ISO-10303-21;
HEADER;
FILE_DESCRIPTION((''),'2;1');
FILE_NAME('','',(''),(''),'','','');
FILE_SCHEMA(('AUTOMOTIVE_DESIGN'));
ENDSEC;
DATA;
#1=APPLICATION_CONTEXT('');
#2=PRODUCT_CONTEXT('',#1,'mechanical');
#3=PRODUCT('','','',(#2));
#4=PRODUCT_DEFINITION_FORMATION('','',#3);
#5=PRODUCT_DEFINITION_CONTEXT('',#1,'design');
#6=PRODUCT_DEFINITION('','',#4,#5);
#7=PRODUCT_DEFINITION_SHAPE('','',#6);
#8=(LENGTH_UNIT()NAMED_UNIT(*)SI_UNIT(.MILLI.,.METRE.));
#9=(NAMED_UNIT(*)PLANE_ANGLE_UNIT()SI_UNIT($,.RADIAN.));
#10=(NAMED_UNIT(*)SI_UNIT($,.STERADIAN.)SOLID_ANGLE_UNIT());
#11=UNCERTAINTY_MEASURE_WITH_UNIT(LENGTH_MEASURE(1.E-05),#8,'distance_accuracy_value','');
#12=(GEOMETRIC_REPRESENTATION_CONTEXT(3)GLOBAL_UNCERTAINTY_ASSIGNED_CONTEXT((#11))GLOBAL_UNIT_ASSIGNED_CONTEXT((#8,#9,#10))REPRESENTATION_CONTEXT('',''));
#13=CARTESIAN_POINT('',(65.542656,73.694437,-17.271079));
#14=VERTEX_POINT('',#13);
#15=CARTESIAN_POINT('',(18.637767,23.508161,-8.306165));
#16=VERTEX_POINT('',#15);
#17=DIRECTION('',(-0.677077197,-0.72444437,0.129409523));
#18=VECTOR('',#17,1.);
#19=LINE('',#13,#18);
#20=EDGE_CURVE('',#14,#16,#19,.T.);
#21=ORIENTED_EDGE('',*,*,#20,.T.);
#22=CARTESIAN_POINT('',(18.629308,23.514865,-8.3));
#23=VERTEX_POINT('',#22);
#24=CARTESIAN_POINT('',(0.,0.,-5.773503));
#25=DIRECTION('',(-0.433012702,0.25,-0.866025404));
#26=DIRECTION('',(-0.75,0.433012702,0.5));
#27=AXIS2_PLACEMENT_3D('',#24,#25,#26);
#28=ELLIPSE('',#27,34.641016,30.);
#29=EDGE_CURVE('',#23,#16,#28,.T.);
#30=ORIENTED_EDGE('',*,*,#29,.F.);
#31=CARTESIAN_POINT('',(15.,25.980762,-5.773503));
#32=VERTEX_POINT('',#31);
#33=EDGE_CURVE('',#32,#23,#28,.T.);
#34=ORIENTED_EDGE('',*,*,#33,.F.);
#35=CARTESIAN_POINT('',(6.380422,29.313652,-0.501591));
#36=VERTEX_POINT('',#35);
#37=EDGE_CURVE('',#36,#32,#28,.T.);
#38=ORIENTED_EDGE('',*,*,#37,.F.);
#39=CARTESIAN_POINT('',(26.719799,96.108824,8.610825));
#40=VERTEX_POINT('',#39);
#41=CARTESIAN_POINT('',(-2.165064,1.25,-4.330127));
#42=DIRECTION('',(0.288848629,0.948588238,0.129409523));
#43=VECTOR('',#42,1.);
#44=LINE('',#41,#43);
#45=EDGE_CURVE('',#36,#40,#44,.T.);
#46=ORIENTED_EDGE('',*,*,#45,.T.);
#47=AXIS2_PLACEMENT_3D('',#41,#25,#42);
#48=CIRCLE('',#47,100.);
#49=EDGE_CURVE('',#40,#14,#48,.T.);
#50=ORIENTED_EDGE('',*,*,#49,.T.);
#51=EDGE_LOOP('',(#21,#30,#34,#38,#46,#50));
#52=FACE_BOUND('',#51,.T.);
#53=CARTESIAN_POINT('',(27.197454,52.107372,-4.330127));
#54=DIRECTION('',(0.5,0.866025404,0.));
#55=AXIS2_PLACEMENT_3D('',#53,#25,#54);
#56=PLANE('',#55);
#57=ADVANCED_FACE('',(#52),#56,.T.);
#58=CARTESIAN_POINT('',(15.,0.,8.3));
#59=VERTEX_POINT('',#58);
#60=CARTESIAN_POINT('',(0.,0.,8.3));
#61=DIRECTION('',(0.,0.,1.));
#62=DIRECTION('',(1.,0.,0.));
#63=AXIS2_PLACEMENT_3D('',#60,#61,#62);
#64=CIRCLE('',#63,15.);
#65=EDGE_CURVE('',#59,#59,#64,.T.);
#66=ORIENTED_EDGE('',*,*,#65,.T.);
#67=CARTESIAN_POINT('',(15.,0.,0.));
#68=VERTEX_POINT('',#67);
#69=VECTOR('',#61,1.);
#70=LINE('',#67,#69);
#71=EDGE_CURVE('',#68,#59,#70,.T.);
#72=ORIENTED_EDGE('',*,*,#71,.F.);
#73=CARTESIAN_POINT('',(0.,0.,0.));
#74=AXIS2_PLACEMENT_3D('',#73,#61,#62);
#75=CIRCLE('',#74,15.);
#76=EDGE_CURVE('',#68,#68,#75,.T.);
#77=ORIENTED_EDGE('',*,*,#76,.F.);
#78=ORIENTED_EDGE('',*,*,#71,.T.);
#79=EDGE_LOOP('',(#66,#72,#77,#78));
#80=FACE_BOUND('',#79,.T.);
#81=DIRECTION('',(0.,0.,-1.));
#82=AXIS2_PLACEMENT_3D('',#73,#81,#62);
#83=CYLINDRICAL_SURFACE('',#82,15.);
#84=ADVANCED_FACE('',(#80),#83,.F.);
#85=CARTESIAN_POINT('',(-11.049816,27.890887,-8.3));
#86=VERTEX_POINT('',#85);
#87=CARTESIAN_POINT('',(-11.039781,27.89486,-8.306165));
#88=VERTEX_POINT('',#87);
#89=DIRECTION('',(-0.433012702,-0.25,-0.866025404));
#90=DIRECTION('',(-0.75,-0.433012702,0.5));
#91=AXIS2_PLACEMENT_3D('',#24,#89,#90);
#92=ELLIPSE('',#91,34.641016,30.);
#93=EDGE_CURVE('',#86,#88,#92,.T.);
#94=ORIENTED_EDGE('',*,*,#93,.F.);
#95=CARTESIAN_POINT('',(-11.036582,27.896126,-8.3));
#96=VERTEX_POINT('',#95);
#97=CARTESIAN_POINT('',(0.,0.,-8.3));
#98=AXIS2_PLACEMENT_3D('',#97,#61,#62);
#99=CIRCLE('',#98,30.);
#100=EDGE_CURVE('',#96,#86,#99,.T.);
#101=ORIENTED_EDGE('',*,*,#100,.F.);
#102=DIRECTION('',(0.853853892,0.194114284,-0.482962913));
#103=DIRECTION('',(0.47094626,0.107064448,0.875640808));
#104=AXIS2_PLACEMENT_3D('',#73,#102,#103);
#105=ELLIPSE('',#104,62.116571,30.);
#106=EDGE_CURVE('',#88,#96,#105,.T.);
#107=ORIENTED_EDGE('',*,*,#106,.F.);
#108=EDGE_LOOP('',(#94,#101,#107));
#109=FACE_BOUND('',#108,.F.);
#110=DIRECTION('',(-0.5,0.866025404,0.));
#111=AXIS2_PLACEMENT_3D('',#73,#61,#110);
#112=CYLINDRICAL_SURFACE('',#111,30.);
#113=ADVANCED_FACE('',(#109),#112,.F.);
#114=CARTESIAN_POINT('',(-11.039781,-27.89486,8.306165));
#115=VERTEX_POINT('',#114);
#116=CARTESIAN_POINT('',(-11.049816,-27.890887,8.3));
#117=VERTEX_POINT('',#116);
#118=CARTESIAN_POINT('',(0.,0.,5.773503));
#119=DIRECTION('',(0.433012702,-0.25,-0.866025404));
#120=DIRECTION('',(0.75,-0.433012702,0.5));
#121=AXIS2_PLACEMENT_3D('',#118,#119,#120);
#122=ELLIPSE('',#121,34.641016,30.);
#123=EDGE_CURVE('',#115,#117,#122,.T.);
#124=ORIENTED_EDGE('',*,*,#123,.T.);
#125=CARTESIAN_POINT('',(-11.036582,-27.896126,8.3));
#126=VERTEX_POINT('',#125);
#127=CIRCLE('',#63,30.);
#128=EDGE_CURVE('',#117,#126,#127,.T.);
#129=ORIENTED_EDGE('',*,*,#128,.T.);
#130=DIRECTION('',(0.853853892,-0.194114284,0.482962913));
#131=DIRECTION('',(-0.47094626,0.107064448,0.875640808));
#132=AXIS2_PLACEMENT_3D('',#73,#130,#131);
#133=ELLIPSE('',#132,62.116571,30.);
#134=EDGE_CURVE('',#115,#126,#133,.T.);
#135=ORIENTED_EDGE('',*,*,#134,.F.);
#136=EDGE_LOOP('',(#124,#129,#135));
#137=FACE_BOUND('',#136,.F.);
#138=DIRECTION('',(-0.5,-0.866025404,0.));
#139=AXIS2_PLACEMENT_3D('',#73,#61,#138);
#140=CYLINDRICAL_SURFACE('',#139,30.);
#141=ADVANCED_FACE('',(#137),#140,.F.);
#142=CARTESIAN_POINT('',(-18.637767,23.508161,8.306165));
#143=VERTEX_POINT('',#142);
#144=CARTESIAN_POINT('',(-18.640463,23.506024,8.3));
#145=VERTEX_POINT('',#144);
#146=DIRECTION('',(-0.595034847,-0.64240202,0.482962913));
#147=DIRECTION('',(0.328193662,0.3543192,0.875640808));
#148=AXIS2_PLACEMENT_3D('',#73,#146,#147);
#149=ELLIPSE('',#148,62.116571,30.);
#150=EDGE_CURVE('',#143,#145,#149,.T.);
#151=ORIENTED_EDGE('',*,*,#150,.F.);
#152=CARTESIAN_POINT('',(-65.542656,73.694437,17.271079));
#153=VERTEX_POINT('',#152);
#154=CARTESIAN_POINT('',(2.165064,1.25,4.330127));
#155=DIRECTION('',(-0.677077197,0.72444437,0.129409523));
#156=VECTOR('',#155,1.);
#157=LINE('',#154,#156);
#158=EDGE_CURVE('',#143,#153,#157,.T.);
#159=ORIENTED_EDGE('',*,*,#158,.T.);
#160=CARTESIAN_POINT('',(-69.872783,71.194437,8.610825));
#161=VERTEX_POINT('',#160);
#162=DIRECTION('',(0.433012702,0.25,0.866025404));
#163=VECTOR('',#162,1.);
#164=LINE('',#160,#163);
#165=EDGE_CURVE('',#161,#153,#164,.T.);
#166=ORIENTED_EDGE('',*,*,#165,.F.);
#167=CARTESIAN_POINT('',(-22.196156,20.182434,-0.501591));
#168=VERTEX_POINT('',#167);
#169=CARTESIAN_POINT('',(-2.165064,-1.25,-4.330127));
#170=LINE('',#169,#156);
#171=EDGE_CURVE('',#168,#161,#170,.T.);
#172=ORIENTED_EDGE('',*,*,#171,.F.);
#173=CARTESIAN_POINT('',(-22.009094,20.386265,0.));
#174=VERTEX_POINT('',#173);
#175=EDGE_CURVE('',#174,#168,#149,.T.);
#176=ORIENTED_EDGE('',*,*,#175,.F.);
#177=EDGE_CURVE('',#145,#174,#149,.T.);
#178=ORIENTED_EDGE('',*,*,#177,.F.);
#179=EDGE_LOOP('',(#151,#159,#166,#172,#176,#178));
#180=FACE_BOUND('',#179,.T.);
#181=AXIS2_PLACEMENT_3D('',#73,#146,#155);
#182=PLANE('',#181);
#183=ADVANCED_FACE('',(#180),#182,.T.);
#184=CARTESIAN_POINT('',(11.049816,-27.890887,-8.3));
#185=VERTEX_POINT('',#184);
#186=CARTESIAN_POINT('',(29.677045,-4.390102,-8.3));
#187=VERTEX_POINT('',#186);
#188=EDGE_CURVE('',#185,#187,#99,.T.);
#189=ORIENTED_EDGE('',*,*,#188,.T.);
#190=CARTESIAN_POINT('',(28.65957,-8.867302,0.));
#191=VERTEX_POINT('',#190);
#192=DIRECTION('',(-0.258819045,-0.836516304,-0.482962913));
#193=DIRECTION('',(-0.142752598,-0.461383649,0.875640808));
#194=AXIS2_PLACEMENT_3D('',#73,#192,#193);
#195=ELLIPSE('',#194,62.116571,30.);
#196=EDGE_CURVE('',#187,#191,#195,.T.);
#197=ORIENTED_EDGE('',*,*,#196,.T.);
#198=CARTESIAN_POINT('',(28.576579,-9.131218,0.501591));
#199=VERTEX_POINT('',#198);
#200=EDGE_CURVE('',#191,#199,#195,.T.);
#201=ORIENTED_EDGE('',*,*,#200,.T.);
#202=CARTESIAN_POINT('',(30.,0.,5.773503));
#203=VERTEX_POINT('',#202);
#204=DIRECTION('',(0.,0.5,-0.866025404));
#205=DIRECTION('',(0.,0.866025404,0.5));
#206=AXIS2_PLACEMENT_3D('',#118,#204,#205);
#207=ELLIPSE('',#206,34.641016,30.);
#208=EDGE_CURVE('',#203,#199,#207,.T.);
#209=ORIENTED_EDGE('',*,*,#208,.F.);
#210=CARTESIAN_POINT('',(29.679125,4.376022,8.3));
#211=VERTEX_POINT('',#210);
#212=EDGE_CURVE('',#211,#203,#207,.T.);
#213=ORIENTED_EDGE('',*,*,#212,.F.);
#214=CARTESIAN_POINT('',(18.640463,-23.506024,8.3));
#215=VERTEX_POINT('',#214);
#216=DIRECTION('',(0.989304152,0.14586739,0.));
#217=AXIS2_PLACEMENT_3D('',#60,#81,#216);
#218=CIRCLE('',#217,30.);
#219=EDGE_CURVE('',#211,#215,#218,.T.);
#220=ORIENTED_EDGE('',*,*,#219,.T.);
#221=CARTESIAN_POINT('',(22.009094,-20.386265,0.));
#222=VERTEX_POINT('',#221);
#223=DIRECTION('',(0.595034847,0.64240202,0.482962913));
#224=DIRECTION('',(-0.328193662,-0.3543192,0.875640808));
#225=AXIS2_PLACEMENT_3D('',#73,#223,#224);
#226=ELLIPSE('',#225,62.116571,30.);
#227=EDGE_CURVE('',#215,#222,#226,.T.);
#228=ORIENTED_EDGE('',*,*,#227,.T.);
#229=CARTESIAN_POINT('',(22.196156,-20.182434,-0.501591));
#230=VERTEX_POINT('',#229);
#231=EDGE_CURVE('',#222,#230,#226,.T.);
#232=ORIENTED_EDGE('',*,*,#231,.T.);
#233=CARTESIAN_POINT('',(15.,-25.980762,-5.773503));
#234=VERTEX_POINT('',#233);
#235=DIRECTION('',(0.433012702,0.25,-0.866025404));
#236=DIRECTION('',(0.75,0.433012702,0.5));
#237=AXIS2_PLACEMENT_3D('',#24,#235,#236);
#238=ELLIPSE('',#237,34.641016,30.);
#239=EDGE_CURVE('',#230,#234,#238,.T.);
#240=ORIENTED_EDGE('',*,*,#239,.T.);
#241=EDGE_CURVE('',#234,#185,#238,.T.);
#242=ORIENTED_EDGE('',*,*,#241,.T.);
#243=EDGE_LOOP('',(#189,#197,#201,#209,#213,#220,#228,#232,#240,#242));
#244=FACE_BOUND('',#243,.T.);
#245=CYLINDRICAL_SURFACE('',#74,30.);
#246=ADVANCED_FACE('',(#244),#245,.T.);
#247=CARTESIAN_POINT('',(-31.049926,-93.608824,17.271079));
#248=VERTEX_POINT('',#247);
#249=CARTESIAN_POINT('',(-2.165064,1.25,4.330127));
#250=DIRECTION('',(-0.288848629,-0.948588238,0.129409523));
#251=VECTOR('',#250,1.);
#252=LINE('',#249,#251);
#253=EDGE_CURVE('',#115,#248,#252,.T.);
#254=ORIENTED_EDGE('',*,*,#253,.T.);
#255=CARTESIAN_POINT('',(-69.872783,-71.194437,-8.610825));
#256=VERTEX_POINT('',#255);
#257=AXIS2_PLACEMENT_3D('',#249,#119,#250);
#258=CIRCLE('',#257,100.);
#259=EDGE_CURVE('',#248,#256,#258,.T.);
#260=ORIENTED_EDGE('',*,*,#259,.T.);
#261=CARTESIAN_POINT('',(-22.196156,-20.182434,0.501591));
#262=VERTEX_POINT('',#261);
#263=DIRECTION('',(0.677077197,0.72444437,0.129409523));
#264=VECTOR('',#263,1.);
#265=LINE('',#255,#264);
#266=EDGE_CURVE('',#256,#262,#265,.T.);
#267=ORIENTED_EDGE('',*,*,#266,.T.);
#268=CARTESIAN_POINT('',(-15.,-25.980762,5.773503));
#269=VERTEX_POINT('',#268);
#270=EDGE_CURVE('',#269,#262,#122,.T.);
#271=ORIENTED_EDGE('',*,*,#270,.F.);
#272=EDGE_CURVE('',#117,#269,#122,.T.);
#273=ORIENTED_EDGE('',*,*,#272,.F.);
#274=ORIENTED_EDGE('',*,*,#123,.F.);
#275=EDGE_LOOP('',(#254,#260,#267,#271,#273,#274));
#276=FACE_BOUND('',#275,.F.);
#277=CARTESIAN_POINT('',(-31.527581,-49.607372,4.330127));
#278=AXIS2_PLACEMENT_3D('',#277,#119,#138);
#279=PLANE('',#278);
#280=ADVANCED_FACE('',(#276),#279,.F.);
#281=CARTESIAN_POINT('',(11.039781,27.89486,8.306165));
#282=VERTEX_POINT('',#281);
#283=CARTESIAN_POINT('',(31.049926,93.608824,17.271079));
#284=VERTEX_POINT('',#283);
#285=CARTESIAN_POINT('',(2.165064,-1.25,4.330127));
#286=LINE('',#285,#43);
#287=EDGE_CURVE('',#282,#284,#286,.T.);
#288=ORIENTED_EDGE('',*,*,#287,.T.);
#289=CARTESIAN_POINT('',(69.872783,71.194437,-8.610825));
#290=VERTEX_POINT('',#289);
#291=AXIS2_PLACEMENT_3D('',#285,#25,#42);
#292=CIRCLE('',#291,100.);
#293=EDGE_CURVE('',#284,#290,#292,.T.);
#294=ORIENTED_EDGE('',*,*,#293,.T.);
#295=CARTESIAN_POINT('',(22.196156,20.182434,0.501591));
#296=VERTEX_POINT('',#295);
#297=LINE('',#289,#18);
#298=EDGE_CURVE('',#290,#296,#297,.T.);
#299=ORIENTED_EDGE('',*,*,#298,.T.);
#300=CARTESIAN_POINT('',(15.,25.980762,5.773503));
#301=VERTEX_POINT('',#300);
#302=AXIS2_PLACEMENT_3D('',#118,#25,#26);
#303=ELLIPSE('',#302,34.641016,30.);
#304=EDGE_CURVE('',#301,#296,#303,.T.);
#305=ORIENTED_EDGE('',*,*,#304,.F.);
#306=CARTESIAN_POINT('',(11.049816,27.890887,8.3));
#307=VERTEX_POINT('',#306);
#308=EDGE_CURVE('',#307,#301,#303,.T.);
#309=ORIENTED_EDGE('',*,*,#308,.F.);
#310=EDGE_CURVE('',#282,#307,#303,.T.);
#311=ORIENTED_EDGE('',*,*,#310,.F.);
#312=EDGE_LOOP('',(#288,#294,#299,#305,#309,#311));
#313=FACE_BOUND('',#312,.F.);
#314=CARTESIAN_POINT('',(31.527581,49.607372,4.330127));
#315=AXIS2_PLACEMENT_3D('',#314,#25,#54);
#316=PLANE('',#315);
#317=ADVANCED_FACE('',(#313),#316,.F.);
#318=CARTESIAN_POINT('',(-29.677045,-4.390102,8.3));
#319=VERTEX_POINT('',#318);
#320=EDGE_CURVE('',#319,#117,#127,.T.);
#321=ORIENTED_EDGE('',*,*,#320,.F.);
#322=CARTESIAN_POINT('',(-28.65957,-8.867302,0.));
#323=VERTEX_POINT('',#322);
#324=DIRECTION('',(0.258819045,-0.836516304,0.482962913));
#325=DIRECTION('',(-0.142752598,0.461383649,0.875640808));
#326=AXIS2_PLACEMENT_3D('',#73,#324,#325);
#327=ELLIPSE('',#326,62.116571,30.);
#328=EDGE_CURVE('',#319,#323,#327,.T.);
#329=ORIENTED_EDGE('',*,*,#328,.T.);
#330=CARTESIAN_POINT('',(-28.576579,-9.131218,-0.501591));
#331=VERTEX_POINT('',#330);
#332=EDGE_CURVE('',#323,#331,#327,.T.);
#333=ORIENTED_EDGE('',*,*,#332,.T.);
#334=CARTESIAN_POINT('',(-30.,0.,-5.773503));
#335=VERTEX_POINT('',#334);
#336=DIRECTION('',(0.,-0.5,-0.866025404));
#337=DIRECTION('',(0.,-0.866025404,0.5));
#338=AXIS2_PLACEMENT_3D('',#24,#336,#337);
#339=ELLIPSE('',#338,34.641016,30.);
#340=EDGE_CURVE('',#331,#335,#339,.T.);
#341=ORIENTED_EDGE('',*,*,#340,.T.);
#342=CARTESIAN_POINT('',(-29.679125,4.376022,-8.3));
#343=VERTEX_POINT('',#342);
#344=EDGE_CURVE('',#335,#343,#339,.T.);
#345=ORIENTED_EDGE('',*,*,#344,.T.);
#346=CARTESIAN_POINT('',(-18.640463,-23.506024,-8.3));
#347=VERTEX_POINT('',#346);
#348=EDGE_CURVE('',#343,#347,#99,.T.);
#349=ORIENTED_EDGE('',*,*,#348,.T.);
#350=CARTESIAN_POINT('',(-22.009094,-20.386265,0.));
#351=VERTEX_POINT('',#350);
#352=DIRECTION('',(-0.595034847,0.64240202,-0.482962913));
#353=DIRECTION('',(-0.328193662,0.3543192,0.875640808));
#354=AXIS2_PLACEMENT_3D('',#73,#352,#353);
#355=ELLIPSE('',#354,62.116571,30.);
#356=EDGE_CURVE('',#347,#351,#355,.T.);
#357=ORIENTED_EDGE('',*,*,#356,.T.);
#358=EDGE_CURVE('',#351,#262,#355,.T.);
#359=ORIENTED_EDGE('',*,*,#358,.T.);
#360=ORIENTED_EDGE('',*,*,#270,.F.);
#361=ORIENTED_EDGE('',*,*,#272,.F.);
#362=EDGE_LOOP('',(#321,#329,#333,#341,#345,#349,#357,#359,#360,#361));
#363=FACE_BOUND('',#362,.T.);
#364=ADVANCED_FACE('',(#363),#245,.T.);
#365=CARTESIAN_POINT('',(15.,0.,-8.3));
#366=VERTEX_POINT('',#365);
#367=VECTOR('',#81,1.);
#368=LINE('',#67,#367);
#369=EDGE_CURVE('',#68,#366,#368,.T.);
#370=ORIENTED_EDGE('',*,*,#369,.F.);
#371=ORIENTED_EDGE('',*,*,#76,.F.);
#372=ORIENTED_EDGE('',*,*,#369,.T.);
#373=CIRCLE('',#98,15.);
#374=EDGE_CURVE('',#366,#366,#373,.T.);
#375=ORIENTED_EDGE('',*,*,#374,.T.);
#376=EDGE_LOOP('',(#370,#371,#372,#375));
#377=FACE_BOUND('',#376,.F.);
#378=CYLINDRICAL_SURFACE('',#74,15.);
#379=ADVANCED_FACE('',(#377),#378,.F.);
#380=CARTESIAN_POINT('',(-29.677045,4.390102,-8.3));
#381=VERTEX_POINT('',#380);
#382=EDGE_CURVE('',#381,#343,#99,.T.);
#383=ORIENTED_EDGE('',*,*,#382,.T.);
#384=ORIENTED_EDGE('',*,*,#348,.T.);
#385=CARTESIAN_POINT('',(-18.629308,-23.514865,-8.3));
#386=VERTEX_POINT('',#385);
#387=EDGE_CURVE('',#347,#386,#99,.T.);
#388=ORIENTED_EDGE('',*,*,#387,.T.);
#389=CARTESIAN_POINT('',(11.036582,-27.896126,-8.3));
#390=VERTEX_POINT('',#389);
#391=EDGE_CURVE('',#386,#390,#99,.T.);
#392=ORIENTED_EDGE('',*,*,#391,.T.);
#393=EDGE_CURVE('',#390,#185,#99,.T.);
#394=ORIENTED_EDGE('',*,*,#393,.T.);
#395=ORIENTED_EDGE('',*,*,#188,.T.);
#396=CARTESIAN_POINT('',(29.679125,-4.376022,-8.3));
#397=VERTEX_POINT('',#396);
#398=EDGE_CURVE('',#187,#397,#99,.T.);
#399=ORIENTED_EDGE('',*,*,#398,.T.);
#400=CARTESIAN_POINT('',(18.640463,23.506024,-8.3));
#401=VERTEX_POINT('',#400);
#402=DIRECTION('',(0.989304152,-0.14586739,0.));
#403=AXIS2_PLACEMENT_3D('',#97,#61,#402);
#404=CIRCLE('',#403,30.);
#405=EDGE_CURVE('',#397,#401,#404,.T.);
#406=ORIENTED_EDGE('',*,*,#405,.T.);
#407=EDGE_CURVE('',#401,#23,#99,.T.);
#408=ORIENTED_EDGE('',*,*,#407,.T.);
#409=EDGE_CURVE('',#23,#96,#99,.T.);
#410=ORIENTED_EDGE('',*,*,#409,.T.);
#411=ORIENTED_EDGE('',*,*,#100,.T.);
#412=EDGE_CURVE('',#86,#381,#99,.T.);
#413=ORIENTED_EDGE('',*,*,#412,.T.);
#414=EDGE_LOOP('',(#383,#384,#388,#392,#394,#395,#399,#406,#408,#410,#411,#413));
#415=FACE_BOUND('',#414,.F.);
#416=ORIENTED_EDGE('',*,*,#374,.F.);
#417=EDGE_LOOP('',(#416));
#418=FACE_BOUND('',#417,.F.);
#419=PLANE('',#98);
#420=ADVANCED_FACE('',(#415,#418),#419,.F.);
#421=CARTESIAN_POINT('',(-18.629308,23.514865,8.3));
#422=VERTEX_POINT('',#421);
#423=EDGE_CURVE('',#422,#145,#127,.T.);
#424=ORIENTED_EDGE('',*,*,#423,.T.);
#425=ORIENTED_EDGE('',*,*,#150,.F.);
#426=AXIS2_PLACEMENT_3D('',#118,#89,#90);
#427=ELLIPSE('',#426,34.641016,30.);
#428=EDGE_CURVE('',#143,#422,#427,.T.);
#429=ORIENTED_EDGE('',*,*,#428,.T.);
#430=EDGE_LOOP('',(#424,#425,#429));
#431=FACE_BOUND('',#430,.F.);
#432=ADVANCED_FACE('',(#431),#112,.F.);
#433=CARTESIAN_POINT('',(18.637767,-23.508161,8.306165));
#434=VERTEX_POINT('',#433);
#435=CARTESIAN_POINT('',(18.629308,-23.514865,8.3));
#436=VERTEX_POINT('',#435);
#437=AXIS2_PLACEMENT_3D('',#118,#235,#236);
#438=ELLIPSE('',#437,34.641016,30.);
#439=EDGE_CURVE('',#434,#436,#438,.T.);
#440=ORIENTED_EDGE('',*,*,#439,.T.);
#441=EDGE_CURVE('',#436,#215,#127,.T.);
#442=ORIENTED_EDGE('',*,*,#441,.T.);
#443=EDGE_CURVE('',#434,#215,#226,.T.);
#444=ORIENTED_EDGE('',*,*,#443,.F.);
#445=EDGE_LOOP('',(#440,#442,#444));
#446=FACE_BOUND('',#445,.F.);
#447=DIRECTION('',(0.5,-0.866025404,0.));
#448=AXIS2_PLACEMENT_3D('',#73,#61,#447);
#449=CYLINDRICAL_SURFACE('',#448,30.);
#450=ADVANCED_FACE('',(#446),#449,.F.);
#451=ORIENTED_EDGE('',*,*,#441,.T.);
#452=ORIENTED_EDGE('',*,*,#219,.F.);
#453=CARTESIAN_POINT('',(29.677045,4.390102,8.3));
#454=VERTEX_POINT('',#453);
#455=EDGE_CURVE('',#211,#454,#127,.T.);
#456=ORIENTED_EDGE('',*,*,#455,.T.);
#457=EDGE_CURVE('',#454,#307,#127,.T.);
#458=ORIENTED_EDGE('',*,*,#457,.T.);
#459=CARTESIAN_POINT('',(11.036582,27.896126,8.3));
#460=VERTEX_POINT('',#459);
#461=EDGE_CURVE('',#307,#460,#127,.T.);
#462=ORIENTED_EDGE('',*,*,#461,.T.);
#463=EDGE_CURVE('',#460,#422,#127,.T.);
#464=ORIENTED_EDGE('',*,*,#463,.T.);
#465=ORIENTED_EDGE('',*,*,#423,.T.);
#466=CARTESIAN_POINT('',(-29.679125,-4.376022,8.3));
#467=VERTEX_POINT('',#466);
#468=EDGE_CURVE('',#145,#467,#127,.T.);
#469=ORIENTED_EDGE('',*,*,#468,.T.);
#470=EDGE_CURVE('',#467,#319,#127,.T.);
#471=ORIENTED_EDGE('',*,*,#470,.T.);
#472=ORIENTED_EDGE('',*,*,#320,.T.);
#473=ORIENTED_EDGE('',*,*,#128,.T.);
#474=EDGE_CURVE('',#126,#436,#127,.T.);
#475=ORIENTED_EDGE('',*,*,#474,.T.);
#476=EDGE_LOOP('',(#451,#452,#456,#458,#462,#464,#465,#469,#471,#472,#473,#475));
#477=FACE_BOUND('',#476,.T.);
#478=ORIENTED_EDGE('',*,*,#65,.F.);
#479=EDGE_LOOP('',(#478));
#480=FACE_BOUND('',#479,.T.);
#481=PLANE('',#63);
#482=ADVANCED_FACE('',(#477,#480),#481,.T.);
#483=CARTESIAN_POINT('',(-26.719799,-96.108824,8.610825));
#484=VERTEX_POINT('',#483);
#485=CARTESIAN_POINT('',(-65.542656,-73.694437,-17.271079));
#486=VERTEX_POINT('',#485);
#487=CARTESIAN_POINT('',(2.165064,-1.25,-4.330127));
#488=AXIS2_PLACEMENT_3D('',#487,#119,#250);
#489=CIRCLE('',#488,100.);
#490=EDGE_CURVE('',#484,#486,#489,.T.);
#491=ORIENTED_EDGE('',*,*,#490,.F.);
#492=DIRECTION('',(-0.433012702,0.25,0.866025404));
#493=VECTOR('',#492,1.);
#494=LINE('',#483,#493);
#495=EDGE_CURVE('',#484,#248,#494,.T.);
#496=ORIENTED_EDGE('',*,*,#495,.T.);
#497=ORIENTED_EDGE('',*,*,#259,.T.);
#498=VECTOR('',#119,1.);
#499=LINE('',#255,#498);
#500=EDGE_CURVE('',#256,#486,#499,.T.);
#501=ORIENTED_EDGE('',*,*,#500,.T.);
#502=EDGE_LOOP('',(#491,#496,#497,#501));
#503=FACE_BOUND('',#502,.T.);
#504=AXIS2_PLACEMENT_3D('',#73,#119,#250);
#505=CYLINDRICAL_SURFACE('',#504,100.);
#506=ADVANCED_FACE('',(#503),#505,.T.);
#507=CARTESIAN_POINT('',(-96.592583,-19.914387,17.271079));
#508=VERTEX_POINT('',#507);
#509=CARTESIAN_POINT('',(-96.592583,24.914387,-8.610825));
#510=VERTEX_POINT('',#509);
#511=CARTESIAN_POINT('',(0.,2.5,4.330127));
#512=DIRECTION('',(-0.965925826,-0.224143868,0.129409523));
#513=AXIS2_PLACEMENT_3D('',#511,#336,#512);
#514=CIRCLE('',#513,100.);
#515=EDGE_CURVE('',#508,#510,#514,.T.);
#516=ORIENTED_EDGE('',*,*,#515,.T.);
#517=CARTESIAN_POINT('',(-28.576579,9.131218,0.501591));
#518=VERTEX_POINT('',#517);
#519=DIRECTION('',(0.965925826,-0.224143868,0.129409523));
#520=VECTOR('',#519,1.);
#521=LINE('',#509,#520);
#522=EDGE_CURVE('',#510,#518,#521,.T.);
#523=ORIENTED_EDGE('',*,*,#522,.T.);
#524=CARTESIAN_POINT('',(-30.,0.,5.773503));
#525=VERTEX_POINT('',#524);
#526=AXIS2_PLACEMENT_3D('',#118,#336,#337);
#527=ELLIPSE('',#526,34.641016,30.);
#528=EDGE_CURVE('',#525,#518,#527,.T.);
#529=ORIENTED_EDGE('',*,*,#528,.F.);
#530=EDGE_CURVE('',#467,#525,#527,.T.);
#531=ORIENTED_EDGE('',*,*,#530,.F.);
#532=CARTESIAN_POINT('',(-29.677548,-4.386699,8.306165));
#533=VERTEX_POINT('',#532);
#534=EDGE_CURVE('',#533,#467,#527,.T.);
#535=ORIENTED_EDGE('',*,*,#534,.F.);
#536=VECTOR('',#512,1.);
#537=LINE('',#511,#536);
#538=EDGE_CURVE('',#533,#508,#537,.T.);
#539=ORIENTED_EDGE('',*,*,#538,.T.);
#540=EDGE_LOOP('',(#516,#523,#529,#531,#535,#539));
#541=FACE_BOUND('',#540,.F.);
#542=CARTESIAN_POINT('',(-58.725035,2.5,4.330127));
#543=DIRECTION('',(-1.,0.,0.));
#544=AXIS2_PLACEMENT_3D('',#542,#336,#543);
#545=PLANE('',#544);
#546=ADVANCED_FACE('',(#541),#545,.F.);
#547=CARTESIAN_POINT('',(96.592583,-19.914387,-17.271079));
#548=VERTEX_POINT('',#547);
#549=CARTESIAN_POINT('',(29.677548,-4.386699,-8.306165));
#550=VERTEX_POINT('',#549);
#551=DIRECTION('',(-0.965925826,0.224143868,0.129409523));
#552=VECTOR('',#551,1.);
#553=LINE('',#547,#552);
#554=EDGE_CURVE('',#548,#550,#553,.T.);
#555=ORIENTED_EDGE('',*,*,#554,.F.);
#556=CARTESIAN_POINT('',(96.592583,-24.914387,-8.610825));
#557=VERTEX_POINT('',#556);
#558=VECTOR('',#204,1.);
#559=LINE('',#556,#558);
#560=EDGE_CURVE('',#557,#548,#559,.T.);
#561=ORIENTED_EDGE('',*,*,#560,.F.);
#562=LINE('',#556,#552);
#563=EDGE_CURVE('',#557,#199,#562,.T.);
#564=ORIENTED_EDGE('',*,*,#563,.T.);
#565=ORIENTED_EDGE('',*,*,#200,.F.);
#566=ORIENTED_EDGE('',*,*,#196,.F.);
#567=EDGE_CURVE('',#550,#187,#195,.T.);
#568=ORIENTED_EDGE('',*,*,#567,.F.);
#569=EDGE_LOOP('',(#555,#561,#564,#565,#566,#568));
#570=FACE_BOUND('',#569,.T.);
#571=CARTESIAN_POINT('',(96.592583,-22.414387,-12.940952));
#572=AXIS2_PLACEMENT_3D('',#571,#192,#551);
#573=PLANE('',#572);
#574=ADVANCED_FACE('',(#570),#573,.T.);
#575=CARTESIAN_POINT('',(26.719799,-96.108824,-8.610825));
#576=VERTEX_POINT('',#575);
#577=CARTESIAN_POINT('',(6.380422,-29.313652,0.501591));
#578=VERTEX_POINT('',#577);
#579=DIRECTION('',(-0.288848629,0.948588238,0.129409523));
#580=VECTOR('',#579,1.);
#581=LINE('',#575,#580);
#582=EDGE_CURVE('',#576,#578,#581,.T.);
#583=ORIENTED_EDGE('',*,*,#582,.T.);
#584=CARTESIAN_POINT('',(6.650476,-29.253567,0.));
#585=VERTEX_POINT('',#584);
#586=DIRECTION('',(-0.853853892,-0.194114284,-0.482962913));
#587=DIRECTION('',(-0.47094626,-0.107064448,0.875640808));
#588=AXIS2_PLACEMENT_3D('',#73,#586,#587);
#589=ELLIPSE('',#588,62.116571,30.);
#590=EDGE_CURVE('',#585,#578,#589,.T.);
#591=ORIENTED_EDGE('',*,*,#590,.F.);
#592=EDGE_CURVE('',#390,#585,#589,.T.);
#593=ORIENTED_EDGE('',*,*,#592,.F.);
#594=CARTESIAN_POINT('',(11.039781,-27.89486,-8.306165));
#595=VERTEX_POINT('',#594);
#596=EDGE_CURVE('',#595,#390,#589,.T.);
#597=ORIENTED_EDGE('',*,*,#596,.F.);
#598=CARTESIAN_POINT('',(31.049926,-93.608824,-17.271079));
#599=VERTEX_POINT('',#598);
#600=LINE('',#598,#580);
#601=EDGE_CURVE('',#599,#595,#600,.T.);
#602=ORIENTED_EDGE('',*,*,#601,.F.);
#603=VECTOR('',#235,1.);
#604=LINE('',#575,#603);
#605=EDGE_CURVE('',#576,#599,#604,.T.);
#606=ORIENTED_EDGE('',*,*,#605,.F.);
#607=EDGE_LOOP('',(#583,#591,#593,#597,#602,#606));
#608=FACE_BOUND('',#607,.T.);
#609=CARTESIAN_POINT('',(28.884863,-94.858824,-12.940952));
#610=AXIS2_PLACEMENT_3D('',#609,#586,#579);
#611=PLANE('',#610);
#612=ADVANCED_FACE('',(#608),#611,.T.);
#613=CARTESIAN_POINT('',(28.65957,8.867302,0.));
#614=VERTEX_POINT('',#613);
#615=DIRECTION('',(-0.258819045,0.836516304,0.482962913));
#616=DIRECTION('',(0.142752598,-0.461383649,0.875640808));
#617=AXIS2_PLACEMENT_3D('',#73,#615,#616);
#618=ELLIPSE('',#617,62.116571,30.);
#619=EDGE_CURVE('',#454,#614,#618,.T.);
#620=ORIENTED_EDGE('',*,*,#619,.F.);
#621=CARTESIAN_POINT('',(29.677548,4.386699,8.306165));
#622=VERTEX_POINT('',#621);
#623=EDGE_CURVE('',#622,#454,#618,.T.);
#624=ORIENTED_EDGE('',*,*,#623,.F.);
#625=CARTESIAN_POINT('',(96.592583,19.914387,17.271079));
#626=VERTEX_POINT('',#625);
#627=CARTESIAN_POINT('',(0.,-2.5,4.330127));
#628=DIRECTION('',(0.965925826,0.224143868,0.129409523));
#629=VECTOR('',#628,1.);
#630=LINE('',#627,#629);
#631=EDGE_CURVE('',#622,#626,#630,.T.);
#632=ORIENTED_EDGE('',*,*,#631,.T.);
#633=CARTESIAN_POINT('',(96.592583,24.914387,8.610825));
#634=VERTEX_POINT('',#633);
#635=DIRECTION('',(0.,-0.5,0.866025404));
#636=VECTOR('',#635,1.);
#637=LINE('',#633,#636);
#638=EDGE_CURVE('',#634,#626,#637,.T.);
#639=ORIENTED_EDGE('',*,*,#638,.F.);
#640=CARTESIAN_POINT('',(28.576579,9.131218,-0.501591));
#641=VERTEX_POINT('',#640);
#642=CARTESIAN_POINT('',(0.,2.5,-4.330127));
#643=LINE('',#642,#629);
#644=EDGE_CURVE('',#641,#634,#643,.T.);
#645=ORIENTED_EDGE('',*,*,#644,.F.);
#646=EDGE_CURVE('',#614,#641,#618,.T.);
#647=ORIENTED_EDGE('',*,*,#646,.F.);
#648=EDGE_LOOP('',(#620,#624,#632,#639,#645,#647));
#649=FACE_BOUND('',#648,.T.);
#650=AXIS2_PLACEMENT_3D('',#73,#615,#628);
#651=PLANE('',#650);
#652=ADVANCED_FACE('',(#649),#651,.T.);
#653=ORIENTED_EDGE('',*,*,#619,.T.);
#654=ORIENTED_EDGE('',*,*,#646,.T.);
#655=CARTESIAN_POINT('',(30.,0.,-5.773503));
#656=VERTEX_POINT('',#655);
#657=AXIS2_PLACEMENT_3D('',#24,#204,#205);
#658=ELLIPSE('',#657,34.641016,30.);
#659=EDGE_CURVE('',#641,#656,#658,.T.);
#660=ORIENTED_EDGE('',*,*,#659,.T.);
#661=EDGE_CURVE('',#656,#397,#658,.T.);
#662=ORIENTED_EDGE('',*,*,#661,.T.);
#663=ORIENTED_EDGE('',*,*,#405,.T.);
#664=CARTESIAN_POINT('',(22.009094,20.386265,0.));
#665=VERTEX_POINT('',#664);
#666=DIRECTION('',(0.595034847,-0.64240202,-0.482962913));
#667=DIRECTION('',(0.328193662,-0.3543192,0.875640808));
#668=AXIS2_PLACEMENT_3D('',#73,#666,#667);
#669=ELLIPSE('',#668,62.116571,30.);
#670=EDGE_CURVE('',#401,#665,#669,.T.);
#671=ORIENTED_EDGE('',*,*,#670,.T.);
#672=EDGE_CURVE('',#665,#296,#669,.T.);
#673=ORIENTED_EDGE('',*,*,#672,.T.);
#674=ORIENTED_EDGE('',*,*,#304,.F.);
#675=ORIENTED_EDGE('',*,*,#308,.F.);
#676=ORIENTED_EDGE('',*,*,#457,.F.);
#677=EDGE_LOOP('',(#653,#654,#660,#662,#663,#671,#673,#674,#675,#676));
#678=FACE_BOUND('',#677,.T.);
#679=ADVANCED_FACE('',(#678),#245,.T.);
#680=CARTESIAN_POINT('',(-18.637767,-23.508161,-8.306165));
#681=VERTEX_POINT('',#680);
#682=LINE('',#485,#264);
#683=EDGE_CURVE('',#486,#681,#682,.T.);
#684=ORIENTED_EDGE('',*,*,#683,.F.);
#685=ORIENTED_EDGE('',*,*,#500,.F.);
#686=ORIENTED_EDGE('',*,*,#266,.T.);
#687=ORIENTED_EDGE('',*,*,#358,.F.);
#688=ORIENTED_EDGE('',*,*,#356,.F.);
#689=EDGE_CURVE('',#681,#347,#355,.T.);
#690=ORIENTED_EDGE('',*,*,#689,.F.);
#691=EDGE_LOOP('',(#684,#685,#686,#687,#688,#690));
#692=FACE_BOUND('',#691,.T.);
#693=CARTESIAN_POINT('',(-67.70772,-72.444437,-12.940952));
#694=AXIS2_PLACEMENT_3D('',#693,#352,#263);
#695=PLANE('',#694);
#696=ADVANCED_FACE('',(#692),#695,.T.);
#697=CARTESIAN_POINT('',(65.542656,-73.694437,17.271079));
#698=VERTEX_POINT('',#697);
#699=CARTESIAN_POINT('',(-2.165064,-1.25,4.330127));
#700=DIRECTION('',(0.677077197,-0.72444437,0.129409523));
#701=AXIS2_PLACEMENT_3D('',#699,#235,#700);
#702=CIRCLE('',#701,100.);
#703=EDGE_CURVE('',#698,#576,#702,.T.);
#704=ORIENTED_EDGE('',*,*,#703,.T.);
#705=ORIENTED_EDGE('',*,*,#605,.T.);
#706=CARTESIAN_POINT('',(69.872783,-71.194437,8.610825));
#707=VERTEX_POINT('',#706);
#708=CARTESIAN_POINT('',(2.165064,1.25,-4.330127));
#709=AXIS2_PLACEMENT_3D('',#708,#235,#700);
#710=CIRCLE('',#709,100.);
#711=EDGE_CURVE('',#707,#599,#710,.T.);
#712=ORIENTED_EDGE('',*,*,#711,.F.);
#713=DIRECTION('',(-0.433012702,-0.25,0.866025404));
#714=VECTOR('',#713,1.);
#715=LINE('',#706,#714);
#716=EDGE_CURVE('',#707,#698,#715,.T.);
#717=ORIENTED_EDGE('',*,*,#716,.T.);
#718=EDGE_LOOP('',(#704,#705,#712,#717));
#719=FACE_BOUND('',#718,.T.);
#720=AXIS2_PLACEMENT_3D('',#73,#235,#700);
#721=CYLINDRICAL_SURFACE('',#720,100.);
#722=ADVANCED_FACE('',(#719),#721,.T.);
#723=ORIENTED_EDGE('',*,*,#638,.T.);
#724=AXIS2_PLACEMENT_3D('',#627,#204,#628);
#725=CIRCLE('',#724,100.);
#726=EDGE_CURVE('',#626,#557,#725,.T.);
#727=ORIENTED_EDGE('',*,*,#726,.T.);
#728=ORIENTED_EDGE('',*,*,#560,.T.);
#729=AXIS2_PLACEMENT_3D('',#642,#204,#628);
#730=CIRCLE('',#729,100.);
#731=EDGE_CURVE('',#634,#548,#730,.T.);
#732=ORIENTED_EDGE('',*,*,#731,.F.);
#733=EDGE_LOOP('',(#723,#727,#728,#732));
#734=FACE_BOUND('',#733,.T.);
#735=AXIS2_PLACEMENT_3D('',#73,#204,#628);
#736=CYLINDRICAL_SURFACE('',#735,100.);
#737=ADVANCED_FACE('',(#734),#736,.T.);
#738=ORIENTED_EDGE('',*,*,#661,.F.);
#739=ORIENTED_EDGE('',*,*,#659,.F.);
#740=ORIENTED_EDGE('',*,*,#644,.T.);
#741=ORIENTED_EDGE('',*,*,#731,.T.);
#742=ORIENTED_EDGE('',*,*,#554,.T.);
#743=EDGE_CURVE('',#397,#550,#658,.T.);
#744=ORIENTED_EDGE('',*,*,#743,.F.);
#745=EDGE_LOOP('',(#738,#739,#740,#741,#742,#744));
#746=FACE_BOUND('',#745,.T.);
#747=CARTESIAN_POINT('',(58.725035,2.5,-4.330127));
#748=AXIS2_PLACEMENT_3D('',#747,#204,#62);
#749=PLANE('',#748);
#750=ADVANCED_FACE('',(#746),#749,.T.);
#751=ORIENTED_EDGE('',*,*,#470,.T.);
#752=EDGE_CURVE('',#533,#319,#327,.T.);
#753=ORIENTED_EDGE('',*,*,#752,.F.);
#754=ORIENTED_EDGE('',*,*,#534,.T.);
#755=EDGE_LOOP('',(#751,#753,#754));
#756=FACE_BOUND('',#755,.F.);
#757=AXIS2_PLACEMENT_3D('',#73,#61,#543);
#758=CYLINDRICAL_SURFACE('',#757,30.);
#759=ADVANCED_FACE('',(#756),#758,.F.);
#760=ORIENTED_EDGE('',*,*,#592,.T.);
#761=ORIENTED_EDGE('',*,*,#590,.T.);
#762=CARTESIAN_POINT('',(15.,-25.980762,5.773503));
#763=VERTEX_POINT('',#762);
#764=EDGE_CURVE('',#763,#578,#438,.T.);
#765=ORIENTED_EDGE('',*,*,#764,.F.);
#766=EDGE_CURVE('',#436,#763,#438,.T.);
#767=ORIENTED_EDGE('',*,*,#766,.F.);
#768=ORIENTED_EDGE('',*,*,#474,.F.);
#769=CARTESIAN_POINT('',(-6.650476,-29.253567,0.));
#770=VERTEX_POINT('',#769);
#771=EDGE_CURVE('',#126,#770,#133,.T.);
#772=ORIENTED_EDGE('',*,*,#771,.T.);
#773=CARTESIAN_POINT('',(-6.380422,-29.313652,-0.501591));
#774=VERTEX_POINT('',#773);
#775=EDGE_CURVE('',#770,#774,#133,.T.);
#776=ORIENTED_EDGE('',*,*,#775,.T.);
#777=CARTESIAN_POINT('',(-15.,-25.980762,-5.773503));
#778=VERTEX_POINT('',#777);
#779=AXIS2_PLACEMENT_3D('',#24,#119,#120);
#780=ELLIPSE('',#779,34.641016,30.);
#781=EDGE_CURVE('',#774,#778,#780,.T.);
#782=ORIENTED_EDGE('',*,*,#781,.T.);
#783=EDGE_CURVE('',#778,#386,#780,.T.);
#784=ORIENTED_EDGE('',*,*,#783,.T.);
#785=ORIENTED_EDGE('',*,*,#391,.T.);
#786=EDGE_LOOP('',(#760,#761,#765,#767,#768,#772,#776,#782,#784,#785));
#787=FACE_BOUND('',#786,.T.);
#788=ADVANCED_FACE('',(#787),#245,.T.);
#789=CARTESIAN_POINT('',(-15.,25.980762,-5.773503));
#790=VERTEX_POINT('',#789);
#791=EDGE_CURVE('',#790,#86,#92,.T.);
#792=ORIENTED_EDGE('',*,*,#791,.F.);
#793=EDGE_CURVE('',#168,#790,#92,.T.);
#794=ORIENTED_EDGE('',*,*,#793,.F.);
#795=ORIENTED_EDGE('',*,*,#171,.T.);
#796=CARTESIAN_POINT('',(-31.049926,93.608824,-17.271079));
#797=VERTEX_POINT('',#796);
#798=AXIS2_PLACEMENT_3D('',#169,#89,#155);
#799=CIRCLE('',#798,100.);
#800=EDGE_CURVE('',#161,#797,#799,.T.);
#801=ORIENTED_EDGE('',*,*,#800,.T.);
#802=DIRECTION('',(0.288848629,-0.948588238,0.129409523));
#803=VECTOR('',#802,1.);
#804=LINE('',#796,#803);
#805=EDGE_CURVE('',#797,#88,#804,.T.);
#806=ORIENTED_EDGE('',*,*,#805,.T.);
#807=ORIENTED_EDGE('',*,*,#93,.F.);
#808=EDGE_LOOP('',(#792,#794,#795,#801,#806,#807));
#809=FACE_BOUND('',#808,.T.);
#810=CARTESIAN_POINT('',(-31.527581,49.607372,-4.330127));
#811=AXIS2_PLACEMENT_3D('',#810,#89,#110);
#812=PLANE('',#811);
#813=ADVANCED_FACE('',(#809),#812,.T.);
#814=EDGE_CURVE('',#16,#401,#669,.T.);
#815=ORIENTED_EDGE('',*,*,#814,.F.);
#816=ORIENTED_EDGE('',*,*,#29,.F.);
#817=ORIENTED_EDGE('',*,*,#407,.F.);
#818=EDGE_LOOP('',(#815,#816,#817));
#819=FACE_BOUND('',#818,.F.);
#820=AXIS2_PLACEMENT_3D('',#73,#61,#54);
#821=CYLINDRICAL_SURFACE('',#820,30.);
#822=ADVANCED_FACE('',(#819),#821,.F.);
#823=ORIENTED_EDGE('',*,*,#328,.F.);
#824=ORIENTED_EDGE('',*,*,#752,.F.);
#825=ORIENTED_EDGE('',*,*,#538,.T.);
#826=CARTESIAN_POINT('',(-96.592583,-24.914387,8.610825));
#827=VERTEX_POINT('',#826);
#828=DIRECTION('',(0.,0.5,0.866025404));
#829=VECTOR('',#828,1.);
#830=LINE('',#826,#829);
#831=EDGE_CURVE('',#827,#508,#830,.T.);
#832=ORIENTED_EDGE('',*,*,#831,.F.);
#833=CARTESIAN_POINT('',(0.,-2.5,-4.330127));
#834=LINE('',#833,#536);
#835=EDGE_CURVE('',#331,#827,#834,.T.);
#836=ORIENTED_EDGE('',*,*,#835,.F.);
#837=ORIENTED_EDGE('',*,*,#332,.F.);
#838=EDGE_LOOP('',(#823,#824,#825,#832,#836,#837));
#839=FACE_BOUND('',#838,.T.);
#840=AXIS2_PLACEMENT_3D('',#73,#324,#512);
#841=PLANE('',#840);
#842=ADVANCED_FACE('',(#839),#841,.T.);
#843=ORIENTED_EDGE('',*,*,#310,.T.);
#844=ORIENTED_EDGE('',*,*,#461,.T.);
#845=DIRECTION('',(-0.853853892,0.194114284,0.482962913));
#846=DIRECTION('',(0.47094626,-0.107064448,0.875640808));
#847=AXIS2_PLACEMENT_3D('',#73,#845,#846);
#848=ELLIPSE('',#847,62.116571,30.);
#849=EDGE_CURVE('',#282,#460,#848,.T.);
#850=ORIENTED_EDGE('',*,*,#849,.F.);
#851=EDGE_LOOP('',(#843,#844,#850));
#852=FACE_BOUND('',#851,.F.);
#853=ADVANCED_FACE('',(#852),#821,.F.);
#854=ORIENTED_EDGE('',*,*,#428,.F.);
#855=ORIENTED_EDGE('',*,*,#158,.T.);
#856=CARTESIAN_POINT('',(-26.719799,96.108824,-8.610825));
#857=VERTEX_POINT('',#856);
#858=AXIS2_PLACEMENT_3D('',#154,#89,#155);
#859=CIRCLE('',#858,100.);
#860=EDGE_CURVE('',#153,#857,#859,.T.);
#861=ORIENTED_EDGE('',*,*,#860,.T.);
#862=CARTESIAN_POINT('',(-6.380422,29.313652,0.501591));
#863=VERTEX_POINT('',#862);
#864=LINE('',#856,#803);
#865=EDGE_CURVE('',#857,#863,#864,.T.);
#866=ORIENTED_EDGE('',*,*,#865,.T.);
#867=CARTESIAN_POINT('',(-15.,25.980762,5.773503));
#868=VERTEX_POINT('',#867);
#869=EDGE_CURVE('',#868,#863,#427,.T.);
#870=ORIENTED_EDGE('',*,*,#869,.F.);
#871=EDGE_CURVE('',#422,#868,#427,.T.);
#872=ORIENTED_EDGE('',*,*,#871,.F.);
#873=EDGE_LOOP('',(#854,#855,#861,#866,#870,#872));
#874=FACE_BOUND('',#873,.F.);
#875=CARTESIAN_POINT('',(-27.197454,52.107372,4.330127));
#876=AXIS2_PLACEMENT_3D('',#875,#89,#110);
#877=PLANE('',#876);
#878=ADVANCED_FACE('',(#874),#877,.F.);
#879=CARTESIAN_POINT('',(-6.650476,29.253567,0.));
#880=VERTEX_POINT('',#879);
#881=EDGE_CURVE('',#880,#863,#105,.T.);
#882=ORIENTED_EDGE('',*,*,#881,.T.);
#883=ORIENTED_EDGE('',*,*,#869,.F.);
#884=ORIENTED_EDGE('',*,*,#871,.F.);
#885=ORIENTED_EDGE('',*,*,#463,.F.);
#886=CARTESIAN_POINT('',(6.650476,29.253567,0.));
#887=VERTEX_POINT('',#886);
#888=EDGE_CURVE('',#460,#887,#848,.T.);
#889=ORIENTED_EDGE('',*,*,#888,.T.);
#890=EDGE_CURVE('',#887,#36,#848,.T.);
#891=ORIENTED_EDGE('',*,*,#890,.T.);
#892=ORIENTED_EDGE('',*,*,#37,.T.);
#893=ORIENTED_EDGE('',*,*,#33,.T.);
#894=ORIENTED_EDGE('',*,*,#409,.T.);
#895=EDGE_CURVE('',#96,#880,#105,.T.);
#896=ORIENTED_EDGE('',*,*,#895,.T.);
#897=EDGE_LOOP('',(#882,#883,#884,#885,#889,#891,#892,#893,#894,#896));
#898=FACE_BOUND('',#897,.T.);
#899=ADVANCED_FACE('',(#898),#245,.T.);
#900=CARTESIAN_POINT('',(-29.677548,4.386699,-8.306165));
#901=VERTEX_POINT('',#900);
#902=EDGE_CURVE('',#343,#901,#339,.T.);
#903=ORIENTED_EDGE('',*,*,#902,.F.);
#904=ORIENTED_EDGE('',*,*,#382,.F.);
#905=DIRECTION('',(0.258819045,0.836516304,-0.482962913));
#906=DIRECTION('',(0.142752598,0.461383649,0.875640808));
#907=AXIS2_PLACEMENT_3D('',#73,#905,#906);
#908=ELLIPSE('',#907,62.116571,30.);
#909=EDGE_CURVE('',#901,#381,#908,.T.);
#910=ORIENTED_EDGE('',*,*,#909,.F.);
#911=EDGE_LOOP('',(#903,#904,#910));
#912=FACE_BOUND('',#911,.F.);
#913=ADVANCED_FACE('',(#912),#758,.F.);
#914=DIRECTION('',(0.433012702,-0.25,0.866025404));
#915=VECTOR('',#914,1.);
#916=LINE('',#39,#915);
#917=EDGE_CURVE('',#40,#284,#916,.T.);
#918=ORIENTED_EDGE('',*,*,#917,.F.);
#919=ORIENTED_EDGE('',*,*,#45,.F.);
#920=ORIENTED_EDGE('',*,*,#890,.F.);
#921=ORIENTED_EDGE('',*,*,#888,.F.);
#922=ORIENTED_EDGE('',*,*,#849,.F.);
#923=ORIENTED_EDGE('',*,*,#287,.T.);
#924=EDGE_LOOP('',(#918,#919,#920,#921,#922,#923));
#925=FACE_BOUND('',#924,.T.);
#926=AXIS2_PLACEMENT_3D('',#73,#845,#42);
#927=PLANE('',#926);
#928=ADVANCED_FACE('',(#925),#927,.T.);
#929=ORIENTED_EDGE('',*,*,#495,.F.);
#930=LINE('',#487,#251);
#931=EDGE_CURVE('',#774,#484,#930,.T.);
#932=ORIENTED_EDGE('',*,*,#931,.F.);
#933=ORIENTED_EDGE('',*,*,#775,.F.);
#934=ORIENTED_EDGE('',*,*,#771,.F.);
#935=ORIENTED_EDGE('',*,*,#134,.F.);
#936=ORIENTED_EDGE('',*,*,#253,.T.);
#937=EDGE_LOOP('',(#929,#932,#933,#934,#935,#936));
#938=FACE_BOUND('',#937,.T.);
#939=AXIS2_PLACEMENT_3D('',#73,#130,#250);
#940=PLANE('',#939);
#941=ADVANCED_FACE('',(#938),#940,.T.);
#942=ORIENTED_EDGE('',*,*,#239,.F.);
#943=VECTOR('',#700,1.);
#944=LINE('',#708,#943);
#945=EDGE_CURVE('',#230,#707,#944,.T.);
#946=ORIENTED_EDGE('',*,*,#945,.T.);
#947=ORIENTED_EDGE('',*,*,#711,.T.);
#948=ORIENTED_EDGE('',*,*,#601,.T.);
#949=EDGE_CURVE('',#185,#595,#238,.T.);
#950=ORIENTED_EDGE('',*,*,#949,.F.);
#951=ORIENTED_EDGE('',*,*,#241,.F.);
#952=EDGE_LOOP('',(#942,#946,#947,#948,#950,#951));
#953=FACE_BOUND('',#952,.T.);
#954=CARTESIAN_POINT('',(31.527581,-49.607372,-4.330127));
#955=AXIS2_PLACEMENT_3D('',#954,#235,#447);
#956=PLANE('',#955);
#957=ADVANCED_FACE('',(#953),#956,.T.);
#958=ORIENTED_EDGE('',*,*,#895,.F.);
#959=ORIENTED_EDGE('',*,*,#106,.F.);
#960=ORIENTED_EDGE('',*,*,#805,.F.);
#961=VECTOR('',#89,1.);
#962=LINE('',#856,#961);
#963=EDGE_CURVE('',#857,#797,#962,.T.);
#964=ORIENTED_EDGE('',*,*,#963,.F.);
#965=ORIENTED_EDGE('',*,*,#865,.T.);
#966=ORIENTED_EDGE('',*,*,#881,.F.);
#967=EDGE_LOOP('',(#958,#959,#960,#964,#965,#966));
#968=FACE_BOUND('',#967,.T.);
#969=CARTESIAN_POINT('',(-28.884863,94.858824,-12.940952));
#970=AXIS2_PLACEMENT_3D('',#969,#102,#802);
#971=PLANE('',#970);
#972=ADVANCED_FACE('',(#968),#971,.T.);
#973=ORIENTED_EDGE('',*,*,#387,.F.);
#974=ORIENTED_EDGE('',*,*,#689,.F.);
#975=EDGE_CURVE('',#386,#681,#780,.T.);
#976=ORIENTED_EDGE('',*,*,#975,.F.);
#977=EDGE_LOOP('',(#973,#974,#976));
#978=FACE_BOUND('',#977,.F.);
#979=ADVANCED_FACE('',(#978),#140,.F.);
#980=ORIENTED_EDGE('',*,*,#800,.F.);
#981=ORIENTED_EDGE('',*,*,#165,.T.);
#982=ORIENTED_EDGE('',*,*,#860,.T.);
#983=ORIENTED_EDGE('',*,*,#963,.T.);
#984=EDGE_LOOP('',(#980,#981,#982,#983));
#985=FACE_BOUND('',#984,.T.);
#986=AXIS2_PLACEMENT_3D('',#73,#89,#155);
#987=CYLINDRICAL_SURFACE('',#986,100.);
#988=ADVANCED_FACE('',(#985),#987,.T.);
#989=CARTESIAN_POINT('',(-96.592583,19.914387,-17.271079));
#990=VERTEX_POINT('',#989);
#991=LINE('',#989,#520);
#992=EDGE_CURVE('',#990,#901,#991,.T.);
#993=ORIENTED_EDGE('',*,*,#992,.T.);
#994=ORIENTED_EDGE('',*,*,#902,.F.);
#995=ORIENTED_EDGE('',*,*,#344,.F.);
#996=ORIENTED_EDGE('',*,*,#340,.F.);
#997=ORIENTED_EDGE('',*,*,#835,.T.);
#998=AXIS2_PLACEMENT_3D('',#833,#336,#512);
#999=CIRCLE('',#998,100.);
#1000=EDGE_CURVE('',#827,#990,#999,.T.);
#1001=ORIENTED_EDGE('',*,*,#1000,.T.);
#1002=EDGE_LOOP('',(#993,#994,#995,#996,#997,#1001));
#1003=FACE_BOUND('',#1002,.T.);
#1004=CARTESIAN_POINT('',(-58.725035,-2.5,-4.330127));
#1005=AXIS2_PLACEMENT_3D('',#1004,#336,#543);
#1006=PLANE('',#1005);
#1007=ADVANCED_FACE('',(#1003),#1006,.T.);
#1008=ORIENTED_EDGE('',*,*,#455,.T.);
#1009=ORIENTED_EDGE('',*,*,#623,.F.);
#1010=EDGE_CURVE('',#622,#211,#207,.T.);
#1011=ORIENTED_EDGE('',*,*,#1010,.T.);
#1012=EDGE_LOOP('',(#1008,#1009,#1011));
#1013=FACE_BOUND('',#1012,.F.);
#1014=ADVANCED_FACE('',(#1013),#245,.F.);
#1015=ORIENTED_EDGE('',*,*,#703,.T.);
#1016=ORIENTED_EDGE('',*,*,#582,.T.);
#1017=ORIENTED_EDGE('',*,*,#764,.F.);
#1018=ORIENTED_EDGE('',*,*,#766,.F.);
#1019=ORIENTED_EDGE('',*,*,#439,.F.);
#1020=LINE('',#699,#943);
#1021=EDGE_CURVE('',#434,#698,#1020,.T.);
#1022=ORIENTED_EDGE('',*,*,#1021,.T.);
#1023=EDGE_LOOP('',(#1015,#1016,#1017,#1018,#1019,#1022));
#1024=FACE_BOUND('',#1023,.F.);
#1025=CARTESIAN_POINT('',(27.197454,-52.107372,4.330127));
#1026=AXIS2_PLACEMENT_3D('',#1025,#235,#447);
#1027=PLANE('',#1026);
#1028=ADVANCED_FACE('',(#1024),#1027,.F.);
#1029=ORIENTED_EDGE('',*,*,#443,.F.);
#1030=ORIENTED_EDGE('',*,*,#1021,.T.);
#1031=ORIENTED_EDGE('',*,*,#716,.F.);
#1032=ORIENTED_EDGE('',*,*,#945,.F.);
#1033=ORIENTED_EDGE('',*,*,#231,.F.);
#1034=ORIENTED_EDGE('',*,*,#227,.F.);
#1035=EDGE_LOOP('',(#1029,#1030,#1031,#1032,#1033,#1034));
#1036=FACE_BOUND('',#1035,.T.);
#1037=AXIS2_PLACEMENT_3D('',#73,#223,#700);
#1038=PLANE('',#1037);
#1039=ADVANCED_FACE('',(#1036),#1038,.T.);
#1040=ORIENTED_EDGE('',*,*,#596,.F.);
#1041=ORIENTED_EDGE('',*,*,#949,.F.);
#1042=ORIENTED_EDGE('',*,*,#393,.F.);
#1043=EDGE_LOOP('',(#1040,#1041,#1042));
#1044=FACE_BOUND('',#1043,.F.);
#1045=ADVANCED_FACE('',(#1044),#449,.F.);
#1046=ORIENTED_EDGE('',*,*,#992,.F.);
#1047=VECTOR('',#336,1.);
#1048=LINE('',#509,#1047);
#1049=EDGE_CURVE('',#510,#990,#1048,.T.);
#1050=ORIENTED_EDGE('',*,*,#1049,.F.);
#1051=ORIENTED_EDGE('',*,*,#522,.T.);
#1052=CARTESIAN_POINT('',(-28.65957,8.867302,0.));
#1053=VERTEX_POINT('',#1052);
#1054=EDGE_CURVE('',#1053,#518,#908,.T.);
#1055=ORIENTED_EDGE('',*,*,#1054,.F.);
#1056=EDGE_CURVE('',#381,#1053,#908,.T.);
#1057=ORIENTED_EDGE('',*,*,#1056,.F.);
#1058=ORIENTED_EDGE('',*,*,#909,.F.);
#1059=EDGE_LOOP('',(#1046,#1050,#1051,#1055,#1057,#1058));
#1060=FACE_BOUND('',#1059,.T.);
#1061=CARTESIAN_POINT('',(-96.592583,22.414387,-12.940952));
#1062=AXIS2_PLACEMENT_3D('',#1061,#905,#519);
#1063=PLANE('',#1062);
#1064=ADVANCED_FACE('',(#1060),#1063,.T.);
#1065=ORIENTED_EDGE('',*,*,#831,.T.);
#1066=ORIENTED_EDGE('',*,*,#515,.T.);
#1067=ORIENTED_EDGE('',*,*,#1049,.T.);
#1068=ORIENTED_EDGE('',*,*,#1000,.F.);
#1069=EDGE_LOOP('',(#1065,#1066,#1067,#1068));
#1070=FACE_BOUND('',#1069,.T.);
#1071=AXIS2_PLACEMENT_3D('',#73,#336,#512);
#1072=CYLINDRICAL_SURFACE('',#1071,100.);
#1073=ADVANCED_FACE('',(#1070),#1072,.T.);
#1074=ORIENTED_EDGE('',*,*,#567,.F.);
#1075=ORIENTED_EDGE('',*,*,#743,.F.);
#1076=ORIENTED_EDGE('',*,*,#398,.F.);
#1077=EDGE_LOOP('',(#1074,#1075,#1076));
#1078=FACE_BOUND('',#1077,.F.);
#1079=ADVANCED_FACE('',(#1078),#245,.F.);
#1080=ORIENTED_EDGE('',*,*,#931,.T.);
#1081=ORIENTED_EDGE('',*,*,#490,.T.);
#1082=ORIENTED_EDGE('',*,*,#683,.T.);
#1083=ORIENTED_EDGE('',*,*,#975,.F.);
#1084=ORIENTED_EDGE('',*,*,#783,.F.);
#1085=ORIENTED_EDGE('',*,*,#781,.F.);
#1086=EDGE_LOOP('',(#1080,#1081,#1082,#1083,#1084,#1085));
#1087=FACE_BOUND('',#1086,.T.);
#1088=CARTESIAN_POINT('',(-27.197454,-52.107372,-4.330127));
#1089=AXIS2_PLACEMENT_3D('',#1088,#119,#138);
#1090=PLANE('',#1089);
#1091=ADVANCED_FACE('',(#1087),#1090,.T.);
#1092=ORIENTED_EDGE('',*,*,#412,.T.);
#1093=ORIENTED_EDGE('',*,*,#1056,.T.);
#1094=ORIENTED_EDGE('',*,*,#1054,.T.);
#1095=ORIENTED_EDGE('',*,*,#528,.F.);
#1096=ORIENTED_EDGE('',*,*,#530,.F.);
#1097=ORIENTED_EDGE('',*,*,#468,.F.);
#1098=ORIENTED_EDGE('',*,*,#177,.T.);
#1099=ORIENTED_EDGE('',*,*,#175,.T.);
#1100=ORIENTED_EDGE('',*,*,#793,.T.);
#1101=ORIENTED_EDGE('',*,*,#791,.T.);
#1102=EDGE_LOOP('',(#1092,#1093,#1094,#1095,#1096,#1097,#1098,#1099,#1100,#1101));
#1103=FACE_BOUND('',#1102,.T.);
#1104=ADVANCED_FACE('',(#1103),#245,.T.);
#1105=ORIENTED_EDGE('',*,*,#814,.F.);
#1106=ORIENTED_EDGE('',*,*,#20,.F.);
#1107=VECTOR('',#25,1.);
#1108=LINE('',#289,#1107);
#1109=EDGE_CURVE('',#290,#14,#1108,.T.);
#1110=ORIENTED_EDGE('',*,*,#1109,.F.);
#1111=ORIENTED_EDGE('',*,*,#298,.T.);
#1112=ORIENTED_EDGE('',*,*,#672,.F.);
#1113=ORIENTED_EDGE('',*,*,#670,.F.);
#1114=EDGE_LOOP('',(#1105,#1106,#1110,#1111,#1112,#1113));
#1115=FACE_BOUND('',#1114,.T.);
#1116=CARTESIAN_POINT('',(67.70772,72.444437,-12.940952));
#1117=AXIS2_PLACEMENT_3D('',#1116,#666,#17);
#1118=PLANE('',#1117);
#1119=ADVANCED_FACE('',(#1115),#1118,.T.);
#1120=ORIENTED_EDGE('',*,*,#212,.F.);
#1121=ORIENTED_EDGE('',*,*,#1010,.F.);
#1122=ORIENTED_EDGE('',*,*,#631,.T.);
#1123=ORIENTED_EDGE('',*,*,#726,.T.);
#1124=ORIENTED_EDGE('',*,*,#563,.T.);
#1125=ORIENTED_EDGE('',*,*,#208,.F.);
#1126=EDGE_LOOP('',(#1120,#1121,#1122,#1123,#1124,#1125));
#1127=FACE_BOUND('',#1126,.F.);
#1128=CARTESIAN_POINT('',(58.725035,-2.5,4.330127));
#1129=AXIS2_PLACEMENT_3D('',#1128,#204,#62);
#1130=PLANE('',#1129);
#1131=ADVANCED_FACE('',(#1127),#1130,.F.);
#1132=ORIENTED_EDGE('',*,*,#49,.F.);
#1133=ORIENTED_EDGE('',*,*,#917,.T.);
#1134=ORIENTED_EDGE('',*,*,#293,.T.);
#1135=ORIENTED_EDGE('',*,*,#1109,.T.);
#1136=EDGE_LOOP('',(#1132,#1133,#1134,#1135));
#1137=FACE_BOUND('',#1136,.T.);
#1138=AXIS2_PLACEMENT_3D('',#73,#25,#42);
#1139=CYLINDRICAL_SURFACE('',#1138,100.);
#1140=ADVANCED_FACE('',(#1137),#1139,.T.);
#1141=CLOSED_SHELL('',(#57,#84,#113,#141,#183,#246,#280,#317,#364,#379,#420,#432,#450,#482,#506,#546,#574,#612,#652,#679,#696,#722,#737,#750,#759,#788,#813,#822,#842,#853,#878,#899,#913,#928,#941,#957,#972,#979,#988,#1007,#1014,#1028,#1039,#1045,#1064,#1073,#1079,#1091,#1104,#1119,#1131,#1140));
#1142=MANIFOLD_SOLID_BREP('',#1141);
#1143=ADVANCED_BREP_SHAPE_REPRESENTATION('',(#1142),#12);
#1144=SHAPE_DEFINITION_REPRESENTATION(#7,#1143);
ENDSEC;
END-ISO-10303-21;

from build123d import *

# Parameters (mm, degrees)
F5_DEPTH      = 5
F3_R          = 30
F6_DEPTH      = 12.5
F7_COUNT      = 6
F8_R          = 30
F8_R_2        = 15
F9_DEPTH      = 8.3
F9_DEPTH_BACK = 8.3


with BuildPart() as f5:
    # F2 (on line) → F5 (new body, symmetric)
    with BuildSketch(Plane(origin=(0, 0, 0), x_dir=(1, 0, 0), z_dir=(0, 0.5, -0.8660254038))):
        with BuildLine():
            Line((28.9777747887, -7.7645713531), (96.5925826289, -25.8819045103))
            ThreePointArc((96.5925826289, -25.8819045103), (100, 0), (96.5925826289, 25.8819045103))
            Line((96.5925826289, 25.8819045103), (28.9777747887, 7.7645713531))
            Line((28.9777747887, 7.7645713531), (0, 0))
            Line((0, 0), (28.9777747887, -7.7645713531))
        make_face()
    extrude(amount=F5_DEPTH, both=True)

    # F3 (on Top) → F6 (cut, symmetric)
    with BuildSketch(Plane.XY):
        Circle(F3_R)
    extrude(amount=F6_DEPTH, both=True, mode=Mode.SUBTRACT)


with BuildPart() as f7_1:
    # F7: instance of F5
    add(f5.part.rotate(Axis((0, 0, 1.348067075), (0, 0, 1)), 1 * 360 / F7_COUNT))


with BuildPart() as f7_2:
    # F7: instance of F5
    add(f5.part.rotate(Axis((0, 0, 1.348067075), (0, 0, 1)), 2 * 360 / F7_COUNT))


with BuildPart() as f7_3:
    # F7: instance of F5
    add(f5.part.rotate(Axis((0, 0, 1.348067075), (0, 0, 1)), 3 * 360 / F7_COUNT))


with BuildPart() as f7_4:
    # F7: instance of F5
    add(f5.part.rotate(Axis((0, 0, 1.348067075), (0, 0, 1)), 4 * 360 / F7_COUNT))


with BuildPart() as f7_5:
    # F7: instance of F5
    add(f5.part.rotate(Axis((0, 0, 1.348067075), (0, 0, 1)), 5 * 360 / F7_COUNT))


with BuildPart() as f5_1:
    add(f5.part)

    add(f7_1.part)  # F9 merges F7_1

    add(f7_2.part)  # F9 merges F7_2

    add(f7_3.part)  # F9 merges F7_3

    add(f7_4.part)  # F9 merges F7_4

    add(f7_5.part)  # F9 merges F7_5
    # F8 (on Top) → F9 (join, two sides)
    with BuildSketch(Plane.XY) as f9_sk:
        Circle(F8_R)
        Circle(F8_R_2, mode=Mode.SUBTRACT)
    extrude(amount=F9_DEPTH)
    extrude(f9_sk.sketch, amount=-F9_DEPTH_BACK)


solid = f5_1.part
